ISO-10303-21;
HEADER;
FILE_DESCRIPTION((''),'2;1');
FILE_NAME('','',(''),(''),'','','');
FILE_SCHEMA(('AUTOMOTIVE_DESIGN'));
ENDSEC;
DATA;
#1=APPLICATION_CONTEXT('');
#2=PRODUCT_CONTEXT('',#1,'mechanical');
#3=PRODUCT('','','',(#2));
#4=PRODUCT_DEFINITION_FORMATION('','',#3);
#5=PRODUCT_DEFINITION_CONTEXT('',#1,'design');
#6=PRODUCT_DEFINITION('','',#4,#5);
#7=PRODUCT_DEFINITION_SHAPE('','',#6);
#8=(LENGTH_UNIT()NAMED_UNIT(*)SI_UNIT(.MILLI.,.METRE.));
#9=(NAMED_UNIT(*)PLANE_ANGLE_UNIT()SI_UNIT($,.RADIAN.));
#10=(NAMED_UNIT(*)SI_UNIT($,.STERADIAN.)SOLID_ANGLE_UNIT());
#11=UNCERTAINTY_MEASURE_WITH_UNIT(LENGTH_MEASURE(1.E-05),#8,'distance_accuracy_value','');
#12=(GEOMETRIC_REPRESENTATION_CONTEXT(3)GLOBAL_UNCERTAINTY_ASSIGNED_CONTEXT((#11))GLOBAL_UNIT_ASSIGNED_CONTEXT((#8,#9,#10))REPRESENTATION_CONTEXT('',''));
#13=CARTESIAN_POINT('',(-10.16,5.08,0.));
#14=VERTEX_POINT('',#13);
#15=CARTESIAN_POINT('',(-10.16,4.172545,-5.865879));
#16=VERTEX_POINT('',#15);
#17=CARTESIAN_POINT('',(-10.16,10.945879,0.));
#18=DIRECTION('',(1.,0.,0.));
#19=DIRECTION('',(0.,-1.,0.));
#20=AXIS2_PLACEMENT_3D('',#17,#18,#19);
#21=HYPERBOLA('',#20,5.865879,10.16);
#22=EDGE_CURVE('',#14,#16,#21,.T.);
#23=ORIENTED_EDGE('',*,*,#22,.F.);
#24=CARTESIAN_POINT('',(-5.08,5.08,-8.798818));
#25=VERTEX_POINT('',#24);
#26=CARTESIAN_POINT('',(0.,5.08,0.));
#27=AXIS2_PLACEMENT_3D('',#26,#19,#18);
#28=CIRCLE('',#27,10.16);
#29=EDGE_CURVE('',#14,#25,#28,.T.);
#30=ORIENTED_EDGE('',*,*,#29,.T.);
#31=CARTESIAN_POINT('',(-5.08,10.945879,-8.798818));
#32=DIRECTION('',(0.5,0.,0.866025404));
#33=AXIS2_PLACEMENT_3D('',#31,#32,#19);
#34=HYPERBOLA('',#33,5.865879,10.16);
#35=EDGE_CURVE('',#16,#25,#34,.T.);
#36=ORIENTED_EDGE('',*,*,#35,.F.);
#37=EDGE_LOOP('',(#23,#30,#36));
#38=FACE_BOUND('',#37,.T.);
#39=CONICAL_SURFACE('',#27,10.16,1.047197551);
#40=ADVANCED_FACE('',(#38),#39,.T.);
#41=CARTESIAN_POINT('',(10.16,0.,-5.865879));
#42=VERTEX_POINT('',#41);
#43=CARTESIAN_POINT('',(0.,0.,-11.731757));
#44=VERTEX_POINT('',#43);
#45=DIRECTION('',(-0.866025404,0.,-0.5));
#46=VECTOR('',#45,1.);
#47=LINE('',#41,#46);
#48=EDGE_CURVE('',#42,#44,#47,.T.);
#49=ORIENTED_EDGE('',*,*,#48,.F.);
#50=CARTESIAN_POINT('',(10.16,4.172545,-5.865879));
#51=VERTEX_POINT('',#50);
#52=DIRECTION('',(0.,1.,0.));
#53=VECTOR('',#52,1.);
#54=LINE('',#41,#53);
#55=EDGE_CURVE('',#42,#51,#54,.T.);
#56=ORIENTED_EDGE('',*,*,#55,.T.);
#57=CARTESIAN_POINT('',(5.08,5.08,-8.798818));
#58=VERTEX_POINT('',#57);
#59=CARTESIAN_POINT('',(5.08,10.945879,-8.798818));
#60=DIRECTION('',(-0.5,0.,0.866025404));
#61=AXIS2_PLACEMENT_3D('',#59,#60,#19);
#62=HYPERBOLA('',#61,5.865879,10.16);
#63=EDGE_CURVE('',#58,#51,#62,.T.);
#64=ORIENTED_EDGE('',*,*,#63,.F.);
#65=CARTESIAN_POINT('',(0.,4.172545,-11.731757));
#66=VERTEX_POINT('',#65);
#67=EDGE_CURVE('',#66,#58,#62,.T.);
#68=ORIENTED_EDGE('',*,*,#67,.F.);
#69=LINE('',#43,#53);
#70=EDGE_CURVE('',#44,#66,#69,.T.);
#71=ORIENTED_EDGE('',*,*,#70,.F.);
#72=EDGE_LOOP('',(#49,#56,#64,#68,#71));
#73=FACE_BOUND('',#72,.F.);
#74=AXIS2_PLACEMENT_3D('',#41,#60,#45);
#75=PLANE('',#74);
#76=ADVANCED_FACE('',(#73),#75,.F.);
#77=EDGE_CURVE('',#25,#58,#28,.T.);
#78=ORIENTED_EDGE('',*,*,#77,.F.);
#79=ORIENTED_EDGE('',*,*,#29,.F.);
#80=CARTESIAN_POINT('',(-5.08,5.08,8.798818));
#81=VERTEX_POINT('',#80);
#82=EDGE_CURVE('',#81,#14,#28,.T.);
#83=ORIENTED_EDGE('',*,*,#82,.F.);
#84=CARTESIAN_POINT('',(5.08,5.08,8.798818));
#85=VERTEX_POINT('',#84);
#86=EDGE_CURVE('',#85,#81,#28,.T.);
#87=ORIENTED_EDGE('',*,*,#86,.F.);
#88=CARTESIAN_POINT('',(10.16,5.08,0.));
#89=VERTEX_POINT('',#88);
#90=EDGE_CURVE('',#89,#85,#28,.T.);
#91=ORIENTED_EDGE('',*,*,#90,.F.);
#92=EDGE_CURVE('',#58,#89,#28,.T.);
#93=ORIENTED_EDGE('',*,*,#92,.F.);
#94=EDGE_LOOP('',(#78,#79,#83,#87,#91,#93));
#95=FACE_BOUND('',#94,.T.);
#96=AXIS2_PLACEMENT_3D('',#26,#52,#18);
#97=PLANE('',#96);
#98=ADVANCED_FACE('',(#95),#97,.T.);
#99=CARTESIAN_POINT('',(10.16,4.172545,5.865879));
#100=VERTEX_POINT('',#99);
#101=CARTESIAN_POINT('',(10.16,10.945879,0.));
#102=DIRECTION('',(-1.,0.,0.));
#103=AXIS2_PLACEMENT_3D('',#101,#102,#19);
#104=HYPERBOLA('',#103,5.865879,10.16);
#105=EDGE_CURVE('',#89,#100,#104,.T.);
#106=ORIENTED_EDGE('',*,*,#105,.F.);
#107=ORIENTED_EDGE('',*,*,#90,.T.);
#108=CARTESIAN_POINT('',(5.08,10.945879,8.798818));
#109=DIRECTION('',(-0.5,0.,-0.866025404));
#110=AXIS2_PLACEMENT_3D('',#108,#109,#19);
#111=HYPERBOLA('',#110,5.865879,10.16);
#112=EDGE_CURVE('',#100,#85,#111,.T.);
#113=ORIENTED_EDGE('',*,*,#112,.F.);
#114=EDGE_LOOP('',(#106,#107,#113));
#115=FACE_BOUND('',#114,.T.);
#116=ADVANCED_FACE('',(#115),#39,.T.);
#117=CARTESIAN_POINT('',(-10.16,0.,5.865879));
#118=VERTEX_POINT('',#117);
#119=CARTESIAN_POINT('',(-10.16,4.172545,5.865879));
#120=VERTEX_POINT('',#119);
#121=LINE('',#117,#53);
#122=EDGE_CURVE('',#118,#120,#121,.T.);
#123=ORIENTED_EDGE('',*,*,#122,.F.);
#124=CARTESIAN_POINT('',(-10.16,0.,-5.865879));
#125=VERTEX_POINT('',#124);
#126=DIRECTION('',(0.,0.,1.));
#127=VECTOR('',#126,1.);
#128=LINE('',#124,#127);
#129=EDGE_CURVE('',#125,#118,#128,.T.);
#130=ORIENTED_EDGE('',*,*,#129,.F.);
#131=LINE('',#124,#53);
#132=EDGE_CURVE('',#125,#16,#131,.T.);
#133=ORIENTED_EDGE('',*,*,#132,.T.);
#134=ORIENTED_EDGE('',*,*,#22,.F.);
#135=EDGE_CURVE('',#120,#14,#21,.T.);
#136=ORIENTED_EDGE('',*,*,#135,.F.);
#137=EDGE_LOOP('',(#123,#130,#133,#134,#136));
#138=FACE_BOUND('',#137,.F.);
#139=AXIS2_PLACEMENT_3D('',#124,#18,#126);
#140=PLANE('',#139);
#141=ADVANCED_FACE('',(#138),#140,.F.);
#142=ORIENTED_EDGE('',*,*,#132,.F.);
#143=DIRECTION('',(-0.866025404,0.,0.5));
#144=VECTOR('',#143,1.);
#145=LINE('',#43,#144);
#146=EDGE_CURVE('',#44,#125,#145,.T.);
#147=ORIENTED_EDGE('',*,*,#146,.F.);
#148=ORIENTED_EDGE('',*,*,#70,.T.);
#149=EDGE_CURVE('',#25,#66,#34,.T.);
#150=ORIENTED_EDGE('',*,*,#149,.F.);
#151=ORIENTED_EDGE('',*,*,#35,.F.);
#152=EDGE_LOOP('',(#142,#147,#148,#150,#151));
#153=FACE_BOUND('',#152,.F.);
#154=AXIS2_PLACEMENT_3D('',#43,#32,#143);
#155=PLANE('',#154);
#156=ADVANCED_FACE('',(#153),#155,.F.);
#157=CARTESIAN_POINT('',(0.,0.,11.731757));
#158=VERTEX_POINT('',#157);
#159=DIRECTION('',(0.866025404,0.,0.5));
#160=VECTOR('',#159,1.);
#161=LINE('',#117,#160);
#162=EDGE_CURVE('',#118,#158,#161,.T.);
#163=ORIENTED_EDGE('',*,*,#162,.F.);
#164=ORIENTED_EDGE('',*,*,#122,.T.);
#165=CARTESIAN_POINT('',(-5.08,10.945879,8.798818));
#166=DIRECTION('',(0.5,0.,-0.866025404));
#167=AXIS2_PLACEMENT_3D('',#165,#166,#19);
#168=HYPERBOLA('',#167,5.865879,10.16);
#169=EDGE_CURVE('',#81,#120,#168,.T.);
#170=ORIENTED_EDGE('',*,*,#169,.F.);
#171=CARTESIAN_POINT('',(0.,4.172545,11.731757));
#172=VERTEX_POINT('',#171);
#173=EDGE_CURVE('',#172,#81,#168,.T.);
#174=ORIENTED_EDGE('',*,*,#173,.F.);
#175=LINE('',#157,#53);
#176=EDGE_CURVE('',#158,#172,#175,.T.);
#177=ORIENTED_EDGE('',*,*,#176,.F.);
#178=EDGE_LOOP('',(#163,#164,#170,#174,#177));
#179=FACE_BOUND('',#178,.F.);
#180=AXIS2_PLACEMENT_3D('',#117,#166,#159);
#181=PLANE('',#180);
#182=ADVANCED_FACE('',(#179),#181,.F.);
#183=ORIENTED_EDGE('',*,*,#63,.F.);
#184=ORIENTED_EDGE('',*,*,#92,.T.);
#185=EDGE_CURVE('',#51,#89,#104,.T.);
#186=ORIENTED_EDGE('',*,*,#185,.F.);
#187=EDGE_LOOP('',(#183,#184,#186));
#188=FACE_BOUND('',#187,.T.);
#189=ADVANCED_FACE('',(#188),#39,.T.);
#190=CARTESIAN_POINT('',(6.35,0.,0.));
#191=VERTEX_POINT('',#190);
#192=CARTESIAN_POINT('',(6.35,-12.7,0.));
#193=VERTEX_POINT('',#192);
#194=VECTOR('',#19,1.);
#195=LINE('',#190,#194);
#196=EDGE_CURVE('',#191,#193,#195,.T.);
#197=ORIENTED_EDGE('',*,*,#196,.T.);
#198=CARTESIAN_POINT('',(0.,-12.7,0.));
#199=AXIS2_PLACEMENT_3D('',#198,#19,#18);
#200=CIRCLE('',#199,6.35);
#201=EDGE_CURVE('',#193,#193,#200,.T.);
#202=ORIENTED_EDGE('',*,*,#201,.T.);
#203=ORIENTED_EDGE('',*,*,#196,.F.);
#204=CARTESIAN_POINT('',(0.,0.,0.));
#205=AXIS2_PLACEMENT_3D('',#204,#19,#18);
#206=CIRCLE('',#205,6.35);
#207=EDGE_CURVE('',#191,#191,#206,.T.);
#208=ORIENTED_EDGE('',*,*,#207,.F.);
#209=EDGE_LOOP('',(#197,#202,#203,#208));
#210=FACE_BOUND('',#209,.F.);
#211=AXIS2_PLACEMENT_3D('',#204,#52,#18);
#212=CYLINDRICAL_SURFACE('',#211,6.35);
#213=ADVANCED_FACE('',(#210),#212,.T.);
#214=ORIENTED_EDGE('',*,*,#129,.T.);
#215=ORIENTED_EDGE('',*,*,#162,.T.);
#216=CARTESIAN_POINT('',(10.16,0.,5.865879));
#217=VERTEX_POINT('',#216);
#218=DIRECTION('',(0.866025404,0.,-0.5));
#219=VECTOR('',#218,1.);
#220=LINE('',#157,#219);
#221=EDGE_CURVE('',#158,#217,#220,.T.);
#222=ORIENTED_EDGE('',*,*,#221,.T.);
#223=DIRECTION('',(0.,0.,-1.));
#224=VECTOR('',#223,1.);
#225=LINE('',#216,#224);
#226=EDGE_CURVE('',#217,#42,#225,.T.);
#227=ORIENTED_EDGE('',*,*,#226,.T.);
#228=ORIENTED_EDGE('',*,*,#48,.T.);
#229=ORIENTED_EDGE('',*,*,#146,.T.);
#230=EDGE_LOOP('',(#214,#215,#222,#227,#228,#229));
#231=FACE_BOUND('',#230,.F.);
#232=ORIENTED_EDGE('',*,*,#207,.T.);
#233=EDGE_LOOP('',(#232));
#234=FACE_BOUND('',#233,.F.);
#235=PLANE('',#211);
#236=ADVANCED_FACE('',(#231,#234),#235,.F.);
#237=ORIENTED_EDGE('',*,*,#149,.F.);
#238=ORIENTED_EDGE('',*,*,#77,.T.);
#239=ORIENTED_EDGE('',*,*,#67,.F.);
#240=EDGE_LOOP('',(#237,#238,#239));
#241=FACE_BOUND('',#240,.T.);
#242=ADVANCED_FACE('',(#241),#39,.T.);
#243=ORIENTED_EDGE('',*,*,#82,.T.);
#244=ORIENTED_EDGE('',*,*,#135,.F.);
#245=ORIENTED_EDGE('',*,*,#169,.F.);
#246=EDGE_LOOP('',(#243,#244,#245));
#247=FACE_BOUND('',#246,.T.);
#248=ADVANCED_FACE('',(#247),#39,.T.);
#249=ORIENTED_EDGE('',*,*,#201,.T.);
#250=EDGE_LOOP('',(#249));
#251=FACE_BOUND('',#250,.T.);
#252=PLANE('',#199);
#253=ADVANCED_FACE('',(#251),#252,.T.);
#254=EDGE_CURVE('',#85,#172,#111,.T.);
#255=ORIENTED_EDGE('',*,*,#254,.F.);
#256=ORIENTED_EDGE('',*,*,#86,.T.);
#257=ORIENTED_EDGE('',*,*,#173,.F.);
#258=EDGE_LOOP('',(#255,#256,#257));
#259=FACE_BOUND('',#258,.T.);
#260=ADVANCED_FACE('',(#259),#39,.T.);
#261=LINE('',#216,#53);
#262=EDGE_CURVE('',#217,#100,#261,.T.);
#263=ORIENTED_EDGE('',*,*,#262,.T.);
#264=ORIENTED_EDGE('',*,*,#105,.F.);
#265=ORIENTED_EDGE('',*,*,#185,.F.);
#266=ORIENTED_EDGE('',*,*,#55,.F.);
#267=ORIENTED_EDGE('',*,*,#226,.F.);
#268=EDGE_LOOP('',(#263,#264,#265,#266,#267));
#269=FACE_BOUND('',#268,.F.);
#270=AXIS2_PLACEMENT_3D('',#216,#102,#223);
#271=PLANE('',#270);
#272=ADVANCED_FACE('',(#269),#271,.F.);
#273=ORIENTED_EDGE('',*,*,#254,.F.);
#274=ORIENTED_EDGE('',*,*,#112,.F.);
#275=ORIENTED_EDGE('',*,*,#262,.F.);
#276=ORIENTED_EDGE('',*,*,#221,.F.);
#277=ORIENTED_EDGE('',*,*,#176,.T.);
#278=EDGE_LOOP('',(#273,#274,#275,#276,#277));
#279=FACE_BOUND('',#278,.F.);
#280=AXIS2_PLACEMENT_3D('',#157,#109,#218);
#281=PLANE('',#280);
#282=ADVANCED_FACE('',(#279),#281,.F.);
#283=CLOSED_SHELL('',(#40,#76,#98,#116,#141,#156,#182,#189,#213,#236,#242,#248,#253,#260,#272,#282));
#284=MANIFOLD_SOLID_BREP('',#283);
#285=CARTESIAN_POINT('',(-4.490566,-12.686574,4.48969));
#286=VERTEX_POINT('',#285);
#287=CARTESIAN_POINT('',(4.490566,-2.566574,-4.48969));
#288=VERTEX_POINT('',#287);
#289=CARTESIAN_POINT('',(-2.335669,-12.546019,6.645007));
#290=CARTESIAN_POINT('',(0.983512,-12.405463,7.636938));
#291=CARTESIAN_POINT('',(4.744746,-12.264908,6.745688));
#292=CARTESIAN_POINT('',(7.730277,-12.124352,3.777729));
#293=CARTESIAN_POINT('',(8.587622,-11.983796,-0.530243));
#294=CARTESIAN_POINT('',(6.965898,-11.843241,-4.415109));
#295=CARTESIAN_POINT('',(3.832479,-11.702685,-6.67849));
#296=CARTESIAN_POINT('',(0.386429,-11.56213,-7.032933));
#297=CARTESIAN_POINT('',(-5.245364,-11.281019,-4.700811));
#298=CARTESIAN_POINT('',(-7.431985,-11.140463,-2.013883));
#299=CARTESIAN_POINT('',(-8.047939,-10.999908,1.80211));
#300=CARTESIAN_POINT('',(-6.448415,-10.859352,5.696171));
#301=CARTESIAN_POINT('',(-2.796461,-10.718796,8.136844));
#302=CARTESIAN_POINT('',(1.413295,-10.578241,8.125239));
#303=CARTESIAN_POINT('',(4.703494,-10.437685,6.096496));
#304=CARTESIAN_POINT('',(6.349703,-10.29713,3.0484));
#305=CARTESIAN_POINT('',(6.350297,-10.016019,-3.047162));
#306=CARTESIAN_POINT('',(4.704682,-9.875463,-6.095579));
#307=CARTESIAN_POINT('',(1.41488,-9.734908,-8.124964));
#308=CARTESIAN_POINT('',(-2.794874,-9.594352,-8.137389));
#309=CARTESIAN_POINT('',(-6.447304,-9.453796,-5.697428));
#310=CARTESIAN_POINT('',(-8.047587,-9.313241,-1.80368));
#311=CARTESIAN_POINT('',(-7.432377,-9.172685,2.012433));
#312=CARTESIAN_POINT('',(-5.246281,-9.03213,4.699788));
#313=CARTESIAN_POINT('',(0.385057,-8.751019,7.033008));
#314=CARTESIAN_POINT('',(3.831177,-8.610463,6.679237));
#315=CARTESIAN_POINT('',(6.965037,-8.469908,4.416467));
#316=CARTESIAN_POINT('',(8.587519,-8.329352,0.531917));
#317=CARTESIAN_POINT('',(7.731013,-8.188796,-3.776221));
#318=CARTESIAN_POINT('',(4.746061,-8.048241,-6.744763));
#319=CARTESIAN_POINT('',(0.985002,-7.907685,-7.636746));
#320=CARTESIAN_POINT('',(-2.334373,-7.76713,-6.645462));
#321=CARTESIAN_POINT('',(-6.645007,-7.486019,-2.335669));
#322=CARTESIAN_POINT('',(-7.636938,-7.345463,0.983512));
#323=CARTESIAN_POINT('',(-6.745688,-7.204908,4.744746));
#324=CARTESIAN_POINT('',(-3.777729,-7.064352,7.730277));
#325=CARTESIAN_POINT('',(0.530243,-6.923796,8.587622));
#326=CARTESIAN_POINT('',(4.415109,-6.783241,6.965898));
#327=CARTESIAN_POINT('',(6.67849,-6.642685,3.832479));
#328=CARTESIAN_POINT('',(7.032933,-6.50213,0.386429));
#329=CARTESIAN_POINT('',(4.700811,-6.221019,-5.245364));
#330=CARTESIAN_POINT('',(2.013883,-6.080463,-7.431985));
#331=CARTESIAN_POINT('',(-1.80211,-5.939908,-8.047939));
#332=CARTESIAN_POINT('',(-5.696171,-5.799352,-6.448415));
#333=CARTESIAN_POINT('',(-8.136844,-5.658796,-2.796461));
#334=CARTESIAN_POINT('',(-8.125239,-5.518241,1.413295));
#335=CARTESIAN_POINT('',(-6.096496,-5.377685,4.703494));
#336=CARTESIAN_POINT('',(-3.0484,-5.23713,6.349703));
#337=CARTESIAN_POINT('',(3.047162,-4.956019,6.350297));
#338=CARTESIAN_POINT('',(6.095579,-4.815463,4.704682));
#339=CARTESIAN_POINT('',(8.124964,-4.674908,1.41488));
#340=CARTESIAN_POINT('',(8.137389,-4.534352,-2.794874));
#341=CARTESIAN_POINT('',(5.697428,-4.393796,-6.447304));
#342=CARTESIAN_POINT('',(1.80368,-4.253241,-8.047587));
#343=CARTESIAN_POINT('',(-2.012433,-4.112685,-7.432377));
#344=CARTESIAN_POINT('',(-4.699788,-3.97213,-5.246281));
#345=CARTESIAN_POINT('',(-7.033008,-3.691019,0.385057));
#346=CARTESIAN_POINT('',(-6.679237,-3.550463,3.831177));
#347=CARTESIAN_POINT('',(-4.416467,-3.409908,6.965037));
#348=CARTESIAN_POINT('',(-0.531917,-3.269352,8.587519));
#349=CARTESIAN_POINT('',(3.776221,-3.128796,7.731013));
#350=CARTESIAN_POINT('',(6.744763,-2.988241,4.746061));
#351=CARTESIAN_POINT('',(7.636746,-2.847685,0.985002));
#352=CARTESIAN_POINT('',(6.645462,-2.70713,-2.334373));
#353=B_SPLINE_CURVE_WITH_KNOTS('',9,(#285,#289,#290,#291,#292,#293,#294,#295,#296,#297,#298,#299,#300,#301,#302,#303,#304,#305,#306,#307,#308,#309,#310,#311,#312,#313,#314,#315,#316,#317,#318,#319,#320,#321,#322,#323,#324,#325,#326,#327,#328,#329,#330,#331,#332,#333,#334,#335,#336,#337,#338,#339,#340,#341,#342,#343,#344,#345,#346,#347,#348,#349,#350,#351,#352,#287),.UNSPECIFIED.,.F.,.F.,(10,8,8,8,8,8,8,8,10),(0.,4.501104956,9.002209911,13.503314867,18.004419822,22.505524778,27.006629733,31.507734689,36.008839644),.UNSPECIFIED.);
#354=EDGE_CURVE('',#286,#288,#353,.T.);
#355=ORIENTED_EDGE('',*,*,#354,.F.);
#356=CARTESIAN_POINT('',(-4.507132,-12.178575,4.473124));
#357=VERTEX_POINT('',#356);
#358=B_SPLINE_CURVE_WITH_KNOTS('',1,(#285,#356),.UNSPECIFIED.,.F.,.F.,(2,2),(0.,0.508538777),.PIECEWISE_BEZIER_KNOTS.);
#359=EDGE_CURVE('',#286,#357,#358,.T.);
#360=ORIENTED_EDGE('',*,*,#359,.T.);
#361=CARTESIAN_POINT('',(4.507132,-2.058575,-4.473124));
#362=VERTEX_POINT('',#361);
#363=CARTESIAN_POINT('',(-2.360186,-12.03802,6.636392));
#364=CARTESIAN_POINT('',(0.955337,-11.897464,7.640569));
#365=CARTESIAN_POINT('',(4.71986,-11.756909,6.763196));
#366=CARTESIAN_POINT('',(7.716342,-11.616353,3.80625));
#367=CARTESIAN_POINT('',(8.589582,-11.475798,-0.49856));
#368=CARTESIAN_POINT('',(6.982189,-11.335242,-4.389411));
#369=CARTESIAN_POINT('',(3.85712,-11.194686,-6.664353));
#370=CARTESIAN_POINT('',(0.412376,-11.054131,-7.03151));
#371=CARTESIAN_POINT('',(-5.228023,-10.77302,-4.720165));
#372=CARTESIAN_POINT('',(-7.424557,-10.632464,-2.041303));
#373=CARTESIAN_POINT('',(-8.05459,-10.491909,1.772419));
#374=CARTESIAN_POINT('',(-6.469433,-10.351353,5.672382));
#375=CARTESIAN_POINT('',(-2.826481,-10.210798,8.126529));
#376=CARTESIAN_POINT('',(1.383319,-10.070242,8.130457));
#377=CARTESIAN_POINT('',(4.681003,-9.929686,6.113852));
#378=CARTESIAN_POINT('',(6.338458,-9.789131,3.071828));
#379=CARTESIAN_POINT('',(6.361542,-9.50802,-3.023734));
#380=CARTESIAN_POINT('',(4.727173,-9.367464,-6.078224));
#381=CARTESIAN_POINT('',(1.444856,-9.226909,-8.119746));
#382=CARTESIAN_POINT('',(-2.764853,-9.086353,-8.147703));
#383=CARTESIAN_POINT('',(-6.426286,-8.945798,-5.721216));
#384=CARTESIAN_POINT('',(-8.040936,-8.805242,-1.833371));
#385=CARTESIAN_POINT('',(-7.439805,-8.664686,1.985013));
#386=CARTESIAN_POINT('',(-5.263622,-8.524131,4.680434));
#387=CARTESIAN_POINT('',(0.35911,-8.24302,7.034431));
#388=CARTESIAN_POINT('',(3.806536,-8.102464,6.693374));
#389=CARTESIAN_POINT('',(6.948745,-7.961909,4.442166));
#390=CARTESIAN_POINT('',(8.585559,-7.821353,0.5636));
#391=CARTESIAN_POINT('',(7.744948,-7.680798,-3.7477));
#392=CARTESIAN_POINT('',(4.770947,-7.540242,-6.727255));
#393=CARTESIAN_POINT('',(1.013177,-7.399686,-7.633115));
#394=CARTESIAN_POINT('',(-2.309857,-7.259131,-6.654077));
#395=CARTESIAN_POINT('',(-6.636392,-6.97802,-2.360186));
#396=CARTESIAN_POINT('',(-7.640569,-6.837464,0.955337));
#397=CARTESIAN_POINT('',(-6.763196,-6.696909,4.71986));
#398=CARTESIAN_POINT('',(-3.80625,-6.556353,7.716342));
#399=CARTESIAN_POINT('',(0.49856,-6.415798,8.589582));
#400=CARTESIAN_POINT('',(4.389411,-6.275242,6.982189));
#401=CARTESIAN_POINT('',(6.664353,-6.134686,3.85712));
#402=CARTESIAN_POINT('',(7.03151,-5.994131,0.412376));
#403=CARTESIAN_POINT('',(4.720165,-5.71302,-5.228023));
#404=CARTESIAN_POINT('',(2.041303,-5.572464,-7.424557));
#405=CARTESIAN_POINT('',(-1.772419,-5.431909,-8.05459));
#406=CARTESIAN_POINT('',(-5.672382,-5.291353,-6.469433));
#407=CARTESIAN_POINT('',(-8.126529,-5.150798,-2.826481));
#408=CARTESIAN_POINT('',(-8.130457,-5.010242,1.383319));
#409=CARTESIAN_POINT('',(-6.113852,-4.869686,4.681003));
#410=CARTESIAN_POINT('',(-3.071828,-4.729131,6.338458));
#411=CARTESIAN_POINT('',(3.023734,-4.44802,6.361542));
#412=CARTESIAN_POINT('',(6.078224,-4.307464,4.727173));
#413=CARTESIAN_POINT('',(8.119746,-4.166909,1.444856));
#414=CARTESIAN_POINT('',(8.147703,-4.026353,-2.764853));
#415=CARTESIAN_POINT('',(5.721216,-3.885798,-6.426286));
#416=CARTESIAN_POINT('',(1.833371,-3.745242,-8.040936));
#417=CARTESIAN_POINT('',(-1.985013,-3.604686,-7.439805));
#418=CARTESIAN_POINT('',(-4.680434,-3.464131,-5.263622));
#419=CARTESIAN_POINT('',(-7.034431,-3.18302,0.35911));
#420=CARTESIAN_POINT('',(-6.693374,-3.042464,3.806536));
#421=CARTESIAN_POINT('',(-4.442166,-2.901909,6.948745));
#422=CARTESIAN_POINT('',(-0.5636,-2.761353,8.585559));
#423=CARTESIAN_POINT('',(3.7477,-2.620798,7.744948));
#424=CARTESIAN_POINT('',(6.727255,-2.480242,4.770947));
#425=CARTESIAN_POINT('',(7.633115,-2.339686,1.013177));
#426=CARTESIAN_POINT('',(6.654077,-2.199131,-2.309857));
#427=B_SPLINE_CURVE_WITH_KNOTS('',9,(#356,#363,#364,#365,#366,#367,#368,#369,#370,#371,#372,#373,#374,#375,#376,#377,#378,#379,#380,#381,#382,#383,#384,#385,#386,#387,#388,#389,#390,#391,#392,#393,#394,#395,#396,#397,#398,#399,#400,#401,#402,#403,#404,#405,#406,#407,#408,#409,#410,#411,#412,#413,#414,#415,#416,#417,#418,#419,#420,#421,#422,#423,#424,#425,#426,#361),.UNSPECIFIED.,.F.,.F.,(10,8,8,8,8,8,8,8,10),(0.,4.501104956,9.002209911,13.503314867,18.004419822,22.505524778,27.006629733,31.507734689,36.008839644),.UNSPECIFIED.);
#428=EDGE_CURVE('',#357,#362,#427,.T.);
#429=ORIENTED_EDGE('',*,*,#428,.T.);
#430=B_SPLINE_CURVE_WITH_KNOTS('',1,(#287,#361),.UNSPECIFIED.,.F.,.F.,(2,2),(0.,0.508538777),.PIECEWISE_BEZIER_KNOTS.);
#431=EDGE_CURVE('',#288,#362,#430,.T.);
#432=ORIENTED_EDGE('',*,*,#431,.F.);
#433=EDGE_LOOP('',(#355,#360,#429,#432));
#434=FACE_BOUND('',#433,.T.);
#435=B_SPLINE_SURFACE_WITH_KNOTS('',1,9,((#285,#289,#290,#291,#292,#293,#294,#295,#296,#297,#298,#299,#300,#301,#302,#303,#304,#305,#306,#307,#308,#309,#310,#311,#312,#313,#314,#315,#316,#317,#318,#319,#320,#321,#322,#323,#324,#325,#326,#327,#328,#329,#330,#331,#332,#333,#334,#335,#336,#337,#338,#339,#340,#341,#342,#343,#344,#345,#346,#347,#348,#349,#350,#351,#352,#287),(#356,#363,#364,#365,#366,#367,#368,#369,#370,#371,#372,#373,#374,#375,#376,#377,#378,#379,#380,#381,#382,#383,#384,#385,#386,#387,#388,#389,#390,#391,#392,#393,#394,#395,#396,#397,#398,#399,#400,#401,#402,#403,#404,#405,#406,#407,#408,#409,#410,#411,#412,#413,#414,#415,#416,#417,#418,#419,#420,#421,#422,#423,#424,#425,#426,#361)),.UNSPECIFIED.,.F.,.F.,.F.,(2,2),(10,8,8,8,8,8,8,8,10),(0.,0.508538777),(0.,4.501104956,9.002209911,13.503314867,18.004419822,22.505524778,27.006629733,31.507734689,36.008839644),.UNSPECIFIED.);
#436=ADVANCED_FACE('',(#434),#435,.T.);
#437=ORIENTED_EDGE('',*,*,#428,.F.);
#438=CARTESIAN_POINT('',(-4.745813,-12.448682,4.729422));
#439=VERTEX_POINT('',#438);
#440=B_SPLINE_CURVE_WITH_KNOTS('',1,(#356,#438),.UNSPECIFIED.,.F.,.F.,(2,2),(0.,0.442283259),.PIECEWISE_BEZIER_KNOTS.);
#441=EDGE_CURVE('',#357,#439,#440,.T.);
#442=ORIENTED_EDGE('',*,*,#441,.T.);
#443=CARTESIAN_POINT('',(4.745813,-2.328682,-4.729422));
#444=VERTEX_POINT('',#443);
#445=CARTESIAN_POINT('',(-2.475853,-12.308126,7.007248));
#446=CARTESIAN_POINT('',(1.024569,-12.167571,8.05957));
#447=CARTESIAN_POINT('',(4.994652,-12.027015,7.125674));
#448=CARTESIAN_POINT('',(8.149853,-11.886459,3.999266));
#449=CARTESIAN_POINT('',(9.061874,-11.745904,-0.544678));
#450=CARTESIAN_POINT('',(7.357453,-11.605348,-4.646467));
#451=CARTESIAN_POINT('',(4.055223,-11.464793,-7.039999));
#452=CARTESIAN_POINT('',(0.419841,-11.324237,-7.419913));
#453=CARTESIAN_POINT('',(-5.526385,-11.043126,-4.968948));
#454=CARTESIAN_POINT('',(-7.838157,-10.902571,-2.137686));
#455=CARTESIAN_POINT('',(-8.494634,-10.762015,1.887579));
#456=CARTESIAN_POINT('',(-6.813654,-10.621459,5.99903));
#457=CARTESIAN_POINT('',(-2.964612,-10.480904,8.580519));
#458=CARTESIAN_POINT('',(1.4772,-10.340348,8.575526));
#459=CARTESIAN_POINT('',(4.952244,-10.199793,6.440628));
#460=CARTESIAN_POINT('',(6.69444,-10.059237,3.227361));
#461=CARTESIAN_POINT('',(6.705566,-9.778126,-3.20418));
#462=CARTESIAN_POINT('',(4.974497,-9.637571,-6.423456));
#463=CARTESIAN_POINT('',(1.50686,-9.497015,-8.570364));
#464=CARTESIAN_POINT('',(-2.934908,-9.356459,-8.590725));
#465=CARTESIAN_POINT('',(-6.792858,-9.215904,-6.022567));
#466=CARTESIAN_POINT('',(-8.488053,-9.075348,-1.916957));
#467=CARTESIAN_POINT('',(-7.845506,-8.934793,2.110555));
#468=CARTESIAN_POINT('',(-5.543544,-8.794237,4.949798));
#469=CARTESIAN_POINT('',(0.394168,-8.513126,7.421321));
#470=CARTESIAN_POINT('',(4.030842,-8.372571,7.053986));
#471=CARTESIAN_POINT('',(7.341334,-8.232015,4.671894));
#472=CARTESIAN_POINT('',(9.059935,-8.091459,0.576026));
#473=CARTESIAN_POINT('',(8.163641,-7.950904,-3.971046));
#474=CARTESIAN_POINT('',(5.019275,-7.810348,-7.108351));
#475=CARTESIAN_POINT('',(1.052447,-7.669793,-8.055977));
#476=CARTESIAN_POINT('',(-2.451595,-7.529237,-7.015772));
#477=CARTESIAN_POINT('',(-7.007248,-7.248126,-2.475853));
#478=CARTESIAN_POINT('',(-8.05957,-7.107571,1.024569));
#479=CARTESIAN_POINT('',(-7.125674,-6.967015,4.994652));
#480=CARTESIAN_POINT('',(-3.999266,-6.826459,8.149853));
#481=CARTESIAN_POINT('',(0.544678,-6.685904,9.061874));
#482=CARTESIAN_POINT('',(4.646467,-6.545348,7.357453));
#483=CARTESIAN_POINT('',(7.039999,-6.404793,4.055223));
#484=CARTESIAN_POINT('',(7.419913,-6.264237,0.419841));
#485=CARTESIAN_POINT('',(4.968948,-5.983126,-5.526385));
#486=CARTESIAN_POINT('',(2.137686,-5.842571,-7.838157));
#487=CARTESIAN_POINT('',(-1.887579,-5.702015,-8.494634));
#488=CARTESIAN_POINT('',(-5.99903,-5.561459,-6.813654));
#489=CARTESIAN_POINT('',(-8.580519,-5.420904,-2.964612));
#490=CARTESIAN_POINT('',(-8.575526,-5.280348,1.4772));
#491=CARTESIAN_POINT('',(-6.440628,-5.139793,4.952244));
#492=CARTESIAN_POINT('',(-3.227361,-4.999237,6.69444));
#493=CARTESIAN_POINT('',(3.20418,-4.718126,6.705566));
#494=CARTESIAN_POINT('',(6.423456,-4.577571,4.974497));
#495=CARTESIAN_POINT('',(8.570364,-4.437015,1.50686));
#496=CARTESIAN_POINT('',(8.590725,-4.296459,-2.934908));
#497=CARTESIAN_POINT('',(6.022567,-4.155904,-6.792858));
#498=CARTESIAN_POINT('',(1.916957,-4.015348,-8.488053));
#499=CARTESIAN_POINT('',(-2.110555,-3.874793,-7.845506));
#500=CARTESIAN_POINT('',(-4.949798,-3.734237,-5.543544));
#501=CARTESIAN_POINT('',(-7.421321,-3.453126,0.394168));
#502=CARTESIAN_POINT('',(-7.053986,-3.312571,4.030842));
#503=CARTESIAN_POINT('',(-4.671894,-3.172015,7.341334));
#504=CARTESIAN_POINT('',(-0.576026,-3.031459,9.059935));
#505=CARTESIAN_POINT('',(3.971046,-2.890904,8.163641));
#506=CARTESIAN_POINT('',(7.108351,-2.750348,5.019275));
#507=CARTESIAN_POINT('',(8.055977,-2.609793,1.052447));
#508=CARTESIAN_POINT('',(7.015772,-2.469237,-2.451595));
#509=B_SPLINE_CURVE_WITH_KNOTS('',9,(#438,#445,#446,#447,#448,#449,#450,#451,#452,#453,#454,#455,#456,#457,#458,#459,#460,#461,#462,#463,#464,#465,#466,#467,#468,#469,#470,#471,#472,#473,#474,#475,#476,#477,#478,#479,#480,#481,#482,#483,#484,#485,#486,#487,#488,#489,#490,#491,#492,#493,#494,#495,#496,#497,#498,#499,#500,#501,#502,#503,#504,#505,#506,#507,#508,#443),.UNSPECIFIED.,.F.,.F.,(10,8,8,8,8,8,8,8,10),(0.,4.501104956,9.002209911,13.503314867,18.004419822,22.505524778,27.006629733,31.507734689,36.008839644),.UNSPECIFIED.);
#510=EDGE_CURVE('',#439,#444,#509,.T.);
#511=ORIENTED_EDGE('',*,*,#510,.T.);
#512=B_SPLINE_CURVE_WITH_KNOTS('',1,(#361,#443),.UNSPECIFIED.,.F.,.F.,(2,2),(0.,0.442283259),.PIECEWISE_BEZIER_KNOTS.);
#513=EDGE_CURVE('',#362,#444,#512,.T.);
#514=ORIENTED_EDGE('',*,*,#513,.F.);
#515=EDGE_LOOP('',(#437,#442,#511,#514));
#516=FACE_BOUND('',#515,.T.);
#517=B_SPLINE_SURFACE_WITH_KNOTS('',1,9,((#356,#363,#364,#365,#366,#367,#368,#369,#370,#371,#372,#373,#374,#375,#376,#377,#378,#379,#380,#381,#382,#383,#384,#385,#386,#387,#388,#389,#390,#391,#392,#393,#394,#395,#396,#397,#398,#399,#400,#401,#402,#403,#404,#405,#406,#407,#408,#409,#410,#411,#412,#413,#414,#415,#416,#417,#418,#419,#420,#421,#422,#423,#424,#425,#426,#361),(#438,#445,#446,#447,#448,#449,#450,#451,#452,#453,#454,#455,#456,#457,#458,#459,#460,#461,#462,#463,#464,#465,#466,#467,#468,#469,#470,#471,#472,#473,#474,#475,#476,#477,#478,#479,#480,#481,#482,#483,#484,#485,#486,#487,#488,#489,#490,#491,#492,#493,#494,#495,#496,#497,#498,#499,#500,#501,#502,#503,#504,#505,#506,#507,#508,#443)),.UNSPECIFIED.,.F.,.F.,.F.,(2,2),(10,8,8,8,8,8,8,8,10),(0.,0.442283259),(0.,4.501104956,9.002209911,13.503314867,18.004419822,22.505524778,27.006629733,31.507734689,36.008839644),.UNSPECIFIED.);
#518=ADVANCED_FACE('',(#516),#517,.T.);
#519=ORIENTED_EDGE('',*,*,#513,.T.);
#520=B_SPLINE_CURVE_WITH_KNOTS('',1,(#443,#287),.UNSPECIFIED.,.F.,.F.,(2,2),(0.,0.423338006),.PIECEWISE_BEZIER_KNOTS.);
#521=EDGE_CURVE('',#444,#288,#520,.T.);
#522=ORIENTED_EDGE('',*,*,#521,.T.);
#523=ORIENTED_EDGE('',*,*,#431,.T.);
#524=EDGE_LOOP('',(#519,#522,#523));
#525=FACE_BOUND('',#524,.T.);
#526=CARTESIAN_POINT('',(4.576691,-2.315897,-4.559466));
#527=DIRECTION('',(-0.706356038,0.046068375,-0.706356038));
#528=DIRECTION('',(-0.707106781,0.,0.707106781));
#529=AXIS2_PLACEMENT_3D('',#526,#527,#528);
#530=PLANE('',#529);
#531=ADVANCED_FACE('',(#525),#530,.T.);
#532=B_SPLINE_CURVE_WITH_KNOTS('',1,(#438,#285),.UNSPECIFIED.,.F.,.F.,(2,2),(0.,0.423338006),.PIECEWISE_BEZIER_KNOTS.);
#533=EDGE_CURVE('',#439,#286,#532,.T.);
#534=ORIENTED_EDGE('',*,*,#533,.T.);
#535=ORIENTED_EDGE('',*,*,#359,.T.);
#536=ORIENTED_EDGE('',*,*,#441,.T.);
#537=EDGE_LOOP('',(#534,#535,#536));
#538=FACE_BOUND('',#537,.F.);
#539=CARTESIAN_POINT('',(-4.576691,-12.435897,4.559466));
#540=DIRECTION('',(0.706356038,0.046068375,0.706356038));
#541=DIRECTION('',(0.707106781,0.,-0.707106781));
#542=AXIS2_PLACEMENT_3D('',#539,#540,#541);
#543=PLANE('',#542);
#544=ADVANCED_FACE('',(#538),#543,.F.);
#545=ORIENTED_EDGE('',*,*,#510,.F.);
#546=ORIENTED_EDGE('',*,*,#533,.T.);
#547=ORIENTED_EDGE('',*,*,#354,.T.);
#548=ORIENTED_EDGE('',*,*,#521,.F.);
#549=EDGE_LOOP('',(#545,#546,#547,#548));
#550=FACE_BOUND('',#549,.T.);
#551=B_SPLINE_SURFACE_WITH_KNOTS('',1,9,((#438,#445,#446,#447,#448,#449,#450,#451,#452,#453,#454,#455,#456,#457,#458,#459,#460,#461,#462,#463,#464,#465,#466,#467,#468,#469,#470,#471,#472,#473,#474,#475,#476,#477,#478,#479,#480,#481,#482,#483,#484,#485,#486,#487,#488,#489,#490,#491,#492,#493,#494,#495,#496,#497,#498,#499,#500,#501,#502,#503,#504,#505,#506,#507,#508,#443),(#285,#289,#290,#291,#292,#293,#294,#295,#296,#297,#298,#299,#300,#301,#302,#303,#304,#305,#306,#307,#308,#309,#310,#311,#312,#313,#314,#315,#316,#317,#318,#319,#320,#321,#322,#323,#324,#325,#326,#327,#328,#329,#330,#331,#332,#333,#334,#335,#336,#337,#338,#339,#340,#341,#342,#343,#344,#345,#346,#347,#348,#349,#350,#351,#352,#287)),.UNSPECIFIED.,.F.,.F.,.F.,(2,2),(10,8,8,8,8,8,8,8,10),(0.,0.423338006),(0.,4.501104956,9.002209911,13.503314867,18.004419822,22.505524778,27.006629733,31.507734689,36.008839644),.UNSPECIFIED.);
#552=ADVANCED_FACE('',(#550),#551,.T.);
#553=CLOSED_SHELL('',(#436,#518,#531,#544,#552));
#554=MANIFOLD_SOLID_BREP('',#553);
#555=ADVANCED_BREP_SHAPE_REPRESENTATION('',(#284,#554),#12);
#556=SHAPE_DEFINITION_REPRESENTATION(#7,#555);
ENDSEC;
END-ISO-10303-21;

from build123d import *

# Parameters (mm, degrees)
SALIENTE_EXTRUIR1_DEPTH = 5.08
CROQUIS2_OUTSIDE_W      = 33.01
CROQUIS2_OUTSIDE_H      = 36.154
CROQUIS2_OUTSIDE_R      = 10.16
CORTAR_EXTRUIR1_DEPTH   = 1.27
CORTAR_EXTRUIR1_TAPER   = 60
CROQUIS3_R              = 6.35
SALIENTE_EXTRUIR2_DEPTH = 12.7
BARRER3_PITCH           = 1.84
BARRER3_HEIGHT          = 10.12
BARRER3_RADIUS          = 6.35
BARRER3_START_ANGLE     = -45


with BuildPart() as part:
    # Croquis1 → Saliente-Extruir1 (new body)
    with BuildSketch(Plane(origin=(0, 0, 0), x_dir=(1, 0, 0), z_dir=(0, 1, 0))):
        Polygon((0, 11.73175747), (-10.16, 5.865878735), (-10.16, -5.865878735), (0, -11.73175747), (10.16, -5.865878735), (10.16, 5.865878735), align=None)
    extrude(amount=SALIENTE_EXTRUIR1_DEPTH)

    # Croquis2 outside → Cortar-Extruir1 (cut)
    with BuildSketch(Plane(origin=(0, 5.08, 0), x_dir=(1, 0, 0), z_dir=(0, 1, 0))):
        Rectangle(CROQUIS2_OUTSIDE_W, CROQUIS2_OUTSIDE_H)
        Circle(CROQUIS2_OUTSIDE_R, mode=Mode.SUBTRACT)
    extrude(amount=-CORTAR_EXTRUIR1_DEPTH, taper=CORTAR_EXTRUIR1_TAPER, mode=Mode.SUBTRACT)

    # Croquis3 → Saliente-Extruir2 (add)
    with BuildSketch(Plane.XZ):
        Circle(CROQUIS3_R)
    extrude(amount=SALIENTE_EXTRUIR2_DEPTH)


with BuildPart() as body_2:
    # Barrer3: sweep along a helix
    with BuildLine() as barrer3_path:
        add(Helix(BARRER3_PITCH, BARRER3_HEIGHT, BARRER3_RADIUS, center=(0, -12.7, 0), direction=(0, 1, 0), mode=Mode.PRIVATE).rotate(Axis((0, -12.7, 0), (0, 1, 0)), BARRER3_START_ANGLE))
    # Croquis5 → Barrer3 (sweep)
    with BuildSketch(Plane(origin=(4.490128061, -2.58, -4.490128061), x_dir=(-0.704858529, 0.045970707, 0.707856728), z_dir=(-0.706356038, 0.046068375, -0.706356038))):
        Polygon((0.000618506, 0.013425832), (0.024021241, 0.521425832), (-0.338054001, 0.267425832), align=None)
    sweep(path=barrer3_path.line, is_frenet=True)


solid = Compound([part.part, body_2.part])
